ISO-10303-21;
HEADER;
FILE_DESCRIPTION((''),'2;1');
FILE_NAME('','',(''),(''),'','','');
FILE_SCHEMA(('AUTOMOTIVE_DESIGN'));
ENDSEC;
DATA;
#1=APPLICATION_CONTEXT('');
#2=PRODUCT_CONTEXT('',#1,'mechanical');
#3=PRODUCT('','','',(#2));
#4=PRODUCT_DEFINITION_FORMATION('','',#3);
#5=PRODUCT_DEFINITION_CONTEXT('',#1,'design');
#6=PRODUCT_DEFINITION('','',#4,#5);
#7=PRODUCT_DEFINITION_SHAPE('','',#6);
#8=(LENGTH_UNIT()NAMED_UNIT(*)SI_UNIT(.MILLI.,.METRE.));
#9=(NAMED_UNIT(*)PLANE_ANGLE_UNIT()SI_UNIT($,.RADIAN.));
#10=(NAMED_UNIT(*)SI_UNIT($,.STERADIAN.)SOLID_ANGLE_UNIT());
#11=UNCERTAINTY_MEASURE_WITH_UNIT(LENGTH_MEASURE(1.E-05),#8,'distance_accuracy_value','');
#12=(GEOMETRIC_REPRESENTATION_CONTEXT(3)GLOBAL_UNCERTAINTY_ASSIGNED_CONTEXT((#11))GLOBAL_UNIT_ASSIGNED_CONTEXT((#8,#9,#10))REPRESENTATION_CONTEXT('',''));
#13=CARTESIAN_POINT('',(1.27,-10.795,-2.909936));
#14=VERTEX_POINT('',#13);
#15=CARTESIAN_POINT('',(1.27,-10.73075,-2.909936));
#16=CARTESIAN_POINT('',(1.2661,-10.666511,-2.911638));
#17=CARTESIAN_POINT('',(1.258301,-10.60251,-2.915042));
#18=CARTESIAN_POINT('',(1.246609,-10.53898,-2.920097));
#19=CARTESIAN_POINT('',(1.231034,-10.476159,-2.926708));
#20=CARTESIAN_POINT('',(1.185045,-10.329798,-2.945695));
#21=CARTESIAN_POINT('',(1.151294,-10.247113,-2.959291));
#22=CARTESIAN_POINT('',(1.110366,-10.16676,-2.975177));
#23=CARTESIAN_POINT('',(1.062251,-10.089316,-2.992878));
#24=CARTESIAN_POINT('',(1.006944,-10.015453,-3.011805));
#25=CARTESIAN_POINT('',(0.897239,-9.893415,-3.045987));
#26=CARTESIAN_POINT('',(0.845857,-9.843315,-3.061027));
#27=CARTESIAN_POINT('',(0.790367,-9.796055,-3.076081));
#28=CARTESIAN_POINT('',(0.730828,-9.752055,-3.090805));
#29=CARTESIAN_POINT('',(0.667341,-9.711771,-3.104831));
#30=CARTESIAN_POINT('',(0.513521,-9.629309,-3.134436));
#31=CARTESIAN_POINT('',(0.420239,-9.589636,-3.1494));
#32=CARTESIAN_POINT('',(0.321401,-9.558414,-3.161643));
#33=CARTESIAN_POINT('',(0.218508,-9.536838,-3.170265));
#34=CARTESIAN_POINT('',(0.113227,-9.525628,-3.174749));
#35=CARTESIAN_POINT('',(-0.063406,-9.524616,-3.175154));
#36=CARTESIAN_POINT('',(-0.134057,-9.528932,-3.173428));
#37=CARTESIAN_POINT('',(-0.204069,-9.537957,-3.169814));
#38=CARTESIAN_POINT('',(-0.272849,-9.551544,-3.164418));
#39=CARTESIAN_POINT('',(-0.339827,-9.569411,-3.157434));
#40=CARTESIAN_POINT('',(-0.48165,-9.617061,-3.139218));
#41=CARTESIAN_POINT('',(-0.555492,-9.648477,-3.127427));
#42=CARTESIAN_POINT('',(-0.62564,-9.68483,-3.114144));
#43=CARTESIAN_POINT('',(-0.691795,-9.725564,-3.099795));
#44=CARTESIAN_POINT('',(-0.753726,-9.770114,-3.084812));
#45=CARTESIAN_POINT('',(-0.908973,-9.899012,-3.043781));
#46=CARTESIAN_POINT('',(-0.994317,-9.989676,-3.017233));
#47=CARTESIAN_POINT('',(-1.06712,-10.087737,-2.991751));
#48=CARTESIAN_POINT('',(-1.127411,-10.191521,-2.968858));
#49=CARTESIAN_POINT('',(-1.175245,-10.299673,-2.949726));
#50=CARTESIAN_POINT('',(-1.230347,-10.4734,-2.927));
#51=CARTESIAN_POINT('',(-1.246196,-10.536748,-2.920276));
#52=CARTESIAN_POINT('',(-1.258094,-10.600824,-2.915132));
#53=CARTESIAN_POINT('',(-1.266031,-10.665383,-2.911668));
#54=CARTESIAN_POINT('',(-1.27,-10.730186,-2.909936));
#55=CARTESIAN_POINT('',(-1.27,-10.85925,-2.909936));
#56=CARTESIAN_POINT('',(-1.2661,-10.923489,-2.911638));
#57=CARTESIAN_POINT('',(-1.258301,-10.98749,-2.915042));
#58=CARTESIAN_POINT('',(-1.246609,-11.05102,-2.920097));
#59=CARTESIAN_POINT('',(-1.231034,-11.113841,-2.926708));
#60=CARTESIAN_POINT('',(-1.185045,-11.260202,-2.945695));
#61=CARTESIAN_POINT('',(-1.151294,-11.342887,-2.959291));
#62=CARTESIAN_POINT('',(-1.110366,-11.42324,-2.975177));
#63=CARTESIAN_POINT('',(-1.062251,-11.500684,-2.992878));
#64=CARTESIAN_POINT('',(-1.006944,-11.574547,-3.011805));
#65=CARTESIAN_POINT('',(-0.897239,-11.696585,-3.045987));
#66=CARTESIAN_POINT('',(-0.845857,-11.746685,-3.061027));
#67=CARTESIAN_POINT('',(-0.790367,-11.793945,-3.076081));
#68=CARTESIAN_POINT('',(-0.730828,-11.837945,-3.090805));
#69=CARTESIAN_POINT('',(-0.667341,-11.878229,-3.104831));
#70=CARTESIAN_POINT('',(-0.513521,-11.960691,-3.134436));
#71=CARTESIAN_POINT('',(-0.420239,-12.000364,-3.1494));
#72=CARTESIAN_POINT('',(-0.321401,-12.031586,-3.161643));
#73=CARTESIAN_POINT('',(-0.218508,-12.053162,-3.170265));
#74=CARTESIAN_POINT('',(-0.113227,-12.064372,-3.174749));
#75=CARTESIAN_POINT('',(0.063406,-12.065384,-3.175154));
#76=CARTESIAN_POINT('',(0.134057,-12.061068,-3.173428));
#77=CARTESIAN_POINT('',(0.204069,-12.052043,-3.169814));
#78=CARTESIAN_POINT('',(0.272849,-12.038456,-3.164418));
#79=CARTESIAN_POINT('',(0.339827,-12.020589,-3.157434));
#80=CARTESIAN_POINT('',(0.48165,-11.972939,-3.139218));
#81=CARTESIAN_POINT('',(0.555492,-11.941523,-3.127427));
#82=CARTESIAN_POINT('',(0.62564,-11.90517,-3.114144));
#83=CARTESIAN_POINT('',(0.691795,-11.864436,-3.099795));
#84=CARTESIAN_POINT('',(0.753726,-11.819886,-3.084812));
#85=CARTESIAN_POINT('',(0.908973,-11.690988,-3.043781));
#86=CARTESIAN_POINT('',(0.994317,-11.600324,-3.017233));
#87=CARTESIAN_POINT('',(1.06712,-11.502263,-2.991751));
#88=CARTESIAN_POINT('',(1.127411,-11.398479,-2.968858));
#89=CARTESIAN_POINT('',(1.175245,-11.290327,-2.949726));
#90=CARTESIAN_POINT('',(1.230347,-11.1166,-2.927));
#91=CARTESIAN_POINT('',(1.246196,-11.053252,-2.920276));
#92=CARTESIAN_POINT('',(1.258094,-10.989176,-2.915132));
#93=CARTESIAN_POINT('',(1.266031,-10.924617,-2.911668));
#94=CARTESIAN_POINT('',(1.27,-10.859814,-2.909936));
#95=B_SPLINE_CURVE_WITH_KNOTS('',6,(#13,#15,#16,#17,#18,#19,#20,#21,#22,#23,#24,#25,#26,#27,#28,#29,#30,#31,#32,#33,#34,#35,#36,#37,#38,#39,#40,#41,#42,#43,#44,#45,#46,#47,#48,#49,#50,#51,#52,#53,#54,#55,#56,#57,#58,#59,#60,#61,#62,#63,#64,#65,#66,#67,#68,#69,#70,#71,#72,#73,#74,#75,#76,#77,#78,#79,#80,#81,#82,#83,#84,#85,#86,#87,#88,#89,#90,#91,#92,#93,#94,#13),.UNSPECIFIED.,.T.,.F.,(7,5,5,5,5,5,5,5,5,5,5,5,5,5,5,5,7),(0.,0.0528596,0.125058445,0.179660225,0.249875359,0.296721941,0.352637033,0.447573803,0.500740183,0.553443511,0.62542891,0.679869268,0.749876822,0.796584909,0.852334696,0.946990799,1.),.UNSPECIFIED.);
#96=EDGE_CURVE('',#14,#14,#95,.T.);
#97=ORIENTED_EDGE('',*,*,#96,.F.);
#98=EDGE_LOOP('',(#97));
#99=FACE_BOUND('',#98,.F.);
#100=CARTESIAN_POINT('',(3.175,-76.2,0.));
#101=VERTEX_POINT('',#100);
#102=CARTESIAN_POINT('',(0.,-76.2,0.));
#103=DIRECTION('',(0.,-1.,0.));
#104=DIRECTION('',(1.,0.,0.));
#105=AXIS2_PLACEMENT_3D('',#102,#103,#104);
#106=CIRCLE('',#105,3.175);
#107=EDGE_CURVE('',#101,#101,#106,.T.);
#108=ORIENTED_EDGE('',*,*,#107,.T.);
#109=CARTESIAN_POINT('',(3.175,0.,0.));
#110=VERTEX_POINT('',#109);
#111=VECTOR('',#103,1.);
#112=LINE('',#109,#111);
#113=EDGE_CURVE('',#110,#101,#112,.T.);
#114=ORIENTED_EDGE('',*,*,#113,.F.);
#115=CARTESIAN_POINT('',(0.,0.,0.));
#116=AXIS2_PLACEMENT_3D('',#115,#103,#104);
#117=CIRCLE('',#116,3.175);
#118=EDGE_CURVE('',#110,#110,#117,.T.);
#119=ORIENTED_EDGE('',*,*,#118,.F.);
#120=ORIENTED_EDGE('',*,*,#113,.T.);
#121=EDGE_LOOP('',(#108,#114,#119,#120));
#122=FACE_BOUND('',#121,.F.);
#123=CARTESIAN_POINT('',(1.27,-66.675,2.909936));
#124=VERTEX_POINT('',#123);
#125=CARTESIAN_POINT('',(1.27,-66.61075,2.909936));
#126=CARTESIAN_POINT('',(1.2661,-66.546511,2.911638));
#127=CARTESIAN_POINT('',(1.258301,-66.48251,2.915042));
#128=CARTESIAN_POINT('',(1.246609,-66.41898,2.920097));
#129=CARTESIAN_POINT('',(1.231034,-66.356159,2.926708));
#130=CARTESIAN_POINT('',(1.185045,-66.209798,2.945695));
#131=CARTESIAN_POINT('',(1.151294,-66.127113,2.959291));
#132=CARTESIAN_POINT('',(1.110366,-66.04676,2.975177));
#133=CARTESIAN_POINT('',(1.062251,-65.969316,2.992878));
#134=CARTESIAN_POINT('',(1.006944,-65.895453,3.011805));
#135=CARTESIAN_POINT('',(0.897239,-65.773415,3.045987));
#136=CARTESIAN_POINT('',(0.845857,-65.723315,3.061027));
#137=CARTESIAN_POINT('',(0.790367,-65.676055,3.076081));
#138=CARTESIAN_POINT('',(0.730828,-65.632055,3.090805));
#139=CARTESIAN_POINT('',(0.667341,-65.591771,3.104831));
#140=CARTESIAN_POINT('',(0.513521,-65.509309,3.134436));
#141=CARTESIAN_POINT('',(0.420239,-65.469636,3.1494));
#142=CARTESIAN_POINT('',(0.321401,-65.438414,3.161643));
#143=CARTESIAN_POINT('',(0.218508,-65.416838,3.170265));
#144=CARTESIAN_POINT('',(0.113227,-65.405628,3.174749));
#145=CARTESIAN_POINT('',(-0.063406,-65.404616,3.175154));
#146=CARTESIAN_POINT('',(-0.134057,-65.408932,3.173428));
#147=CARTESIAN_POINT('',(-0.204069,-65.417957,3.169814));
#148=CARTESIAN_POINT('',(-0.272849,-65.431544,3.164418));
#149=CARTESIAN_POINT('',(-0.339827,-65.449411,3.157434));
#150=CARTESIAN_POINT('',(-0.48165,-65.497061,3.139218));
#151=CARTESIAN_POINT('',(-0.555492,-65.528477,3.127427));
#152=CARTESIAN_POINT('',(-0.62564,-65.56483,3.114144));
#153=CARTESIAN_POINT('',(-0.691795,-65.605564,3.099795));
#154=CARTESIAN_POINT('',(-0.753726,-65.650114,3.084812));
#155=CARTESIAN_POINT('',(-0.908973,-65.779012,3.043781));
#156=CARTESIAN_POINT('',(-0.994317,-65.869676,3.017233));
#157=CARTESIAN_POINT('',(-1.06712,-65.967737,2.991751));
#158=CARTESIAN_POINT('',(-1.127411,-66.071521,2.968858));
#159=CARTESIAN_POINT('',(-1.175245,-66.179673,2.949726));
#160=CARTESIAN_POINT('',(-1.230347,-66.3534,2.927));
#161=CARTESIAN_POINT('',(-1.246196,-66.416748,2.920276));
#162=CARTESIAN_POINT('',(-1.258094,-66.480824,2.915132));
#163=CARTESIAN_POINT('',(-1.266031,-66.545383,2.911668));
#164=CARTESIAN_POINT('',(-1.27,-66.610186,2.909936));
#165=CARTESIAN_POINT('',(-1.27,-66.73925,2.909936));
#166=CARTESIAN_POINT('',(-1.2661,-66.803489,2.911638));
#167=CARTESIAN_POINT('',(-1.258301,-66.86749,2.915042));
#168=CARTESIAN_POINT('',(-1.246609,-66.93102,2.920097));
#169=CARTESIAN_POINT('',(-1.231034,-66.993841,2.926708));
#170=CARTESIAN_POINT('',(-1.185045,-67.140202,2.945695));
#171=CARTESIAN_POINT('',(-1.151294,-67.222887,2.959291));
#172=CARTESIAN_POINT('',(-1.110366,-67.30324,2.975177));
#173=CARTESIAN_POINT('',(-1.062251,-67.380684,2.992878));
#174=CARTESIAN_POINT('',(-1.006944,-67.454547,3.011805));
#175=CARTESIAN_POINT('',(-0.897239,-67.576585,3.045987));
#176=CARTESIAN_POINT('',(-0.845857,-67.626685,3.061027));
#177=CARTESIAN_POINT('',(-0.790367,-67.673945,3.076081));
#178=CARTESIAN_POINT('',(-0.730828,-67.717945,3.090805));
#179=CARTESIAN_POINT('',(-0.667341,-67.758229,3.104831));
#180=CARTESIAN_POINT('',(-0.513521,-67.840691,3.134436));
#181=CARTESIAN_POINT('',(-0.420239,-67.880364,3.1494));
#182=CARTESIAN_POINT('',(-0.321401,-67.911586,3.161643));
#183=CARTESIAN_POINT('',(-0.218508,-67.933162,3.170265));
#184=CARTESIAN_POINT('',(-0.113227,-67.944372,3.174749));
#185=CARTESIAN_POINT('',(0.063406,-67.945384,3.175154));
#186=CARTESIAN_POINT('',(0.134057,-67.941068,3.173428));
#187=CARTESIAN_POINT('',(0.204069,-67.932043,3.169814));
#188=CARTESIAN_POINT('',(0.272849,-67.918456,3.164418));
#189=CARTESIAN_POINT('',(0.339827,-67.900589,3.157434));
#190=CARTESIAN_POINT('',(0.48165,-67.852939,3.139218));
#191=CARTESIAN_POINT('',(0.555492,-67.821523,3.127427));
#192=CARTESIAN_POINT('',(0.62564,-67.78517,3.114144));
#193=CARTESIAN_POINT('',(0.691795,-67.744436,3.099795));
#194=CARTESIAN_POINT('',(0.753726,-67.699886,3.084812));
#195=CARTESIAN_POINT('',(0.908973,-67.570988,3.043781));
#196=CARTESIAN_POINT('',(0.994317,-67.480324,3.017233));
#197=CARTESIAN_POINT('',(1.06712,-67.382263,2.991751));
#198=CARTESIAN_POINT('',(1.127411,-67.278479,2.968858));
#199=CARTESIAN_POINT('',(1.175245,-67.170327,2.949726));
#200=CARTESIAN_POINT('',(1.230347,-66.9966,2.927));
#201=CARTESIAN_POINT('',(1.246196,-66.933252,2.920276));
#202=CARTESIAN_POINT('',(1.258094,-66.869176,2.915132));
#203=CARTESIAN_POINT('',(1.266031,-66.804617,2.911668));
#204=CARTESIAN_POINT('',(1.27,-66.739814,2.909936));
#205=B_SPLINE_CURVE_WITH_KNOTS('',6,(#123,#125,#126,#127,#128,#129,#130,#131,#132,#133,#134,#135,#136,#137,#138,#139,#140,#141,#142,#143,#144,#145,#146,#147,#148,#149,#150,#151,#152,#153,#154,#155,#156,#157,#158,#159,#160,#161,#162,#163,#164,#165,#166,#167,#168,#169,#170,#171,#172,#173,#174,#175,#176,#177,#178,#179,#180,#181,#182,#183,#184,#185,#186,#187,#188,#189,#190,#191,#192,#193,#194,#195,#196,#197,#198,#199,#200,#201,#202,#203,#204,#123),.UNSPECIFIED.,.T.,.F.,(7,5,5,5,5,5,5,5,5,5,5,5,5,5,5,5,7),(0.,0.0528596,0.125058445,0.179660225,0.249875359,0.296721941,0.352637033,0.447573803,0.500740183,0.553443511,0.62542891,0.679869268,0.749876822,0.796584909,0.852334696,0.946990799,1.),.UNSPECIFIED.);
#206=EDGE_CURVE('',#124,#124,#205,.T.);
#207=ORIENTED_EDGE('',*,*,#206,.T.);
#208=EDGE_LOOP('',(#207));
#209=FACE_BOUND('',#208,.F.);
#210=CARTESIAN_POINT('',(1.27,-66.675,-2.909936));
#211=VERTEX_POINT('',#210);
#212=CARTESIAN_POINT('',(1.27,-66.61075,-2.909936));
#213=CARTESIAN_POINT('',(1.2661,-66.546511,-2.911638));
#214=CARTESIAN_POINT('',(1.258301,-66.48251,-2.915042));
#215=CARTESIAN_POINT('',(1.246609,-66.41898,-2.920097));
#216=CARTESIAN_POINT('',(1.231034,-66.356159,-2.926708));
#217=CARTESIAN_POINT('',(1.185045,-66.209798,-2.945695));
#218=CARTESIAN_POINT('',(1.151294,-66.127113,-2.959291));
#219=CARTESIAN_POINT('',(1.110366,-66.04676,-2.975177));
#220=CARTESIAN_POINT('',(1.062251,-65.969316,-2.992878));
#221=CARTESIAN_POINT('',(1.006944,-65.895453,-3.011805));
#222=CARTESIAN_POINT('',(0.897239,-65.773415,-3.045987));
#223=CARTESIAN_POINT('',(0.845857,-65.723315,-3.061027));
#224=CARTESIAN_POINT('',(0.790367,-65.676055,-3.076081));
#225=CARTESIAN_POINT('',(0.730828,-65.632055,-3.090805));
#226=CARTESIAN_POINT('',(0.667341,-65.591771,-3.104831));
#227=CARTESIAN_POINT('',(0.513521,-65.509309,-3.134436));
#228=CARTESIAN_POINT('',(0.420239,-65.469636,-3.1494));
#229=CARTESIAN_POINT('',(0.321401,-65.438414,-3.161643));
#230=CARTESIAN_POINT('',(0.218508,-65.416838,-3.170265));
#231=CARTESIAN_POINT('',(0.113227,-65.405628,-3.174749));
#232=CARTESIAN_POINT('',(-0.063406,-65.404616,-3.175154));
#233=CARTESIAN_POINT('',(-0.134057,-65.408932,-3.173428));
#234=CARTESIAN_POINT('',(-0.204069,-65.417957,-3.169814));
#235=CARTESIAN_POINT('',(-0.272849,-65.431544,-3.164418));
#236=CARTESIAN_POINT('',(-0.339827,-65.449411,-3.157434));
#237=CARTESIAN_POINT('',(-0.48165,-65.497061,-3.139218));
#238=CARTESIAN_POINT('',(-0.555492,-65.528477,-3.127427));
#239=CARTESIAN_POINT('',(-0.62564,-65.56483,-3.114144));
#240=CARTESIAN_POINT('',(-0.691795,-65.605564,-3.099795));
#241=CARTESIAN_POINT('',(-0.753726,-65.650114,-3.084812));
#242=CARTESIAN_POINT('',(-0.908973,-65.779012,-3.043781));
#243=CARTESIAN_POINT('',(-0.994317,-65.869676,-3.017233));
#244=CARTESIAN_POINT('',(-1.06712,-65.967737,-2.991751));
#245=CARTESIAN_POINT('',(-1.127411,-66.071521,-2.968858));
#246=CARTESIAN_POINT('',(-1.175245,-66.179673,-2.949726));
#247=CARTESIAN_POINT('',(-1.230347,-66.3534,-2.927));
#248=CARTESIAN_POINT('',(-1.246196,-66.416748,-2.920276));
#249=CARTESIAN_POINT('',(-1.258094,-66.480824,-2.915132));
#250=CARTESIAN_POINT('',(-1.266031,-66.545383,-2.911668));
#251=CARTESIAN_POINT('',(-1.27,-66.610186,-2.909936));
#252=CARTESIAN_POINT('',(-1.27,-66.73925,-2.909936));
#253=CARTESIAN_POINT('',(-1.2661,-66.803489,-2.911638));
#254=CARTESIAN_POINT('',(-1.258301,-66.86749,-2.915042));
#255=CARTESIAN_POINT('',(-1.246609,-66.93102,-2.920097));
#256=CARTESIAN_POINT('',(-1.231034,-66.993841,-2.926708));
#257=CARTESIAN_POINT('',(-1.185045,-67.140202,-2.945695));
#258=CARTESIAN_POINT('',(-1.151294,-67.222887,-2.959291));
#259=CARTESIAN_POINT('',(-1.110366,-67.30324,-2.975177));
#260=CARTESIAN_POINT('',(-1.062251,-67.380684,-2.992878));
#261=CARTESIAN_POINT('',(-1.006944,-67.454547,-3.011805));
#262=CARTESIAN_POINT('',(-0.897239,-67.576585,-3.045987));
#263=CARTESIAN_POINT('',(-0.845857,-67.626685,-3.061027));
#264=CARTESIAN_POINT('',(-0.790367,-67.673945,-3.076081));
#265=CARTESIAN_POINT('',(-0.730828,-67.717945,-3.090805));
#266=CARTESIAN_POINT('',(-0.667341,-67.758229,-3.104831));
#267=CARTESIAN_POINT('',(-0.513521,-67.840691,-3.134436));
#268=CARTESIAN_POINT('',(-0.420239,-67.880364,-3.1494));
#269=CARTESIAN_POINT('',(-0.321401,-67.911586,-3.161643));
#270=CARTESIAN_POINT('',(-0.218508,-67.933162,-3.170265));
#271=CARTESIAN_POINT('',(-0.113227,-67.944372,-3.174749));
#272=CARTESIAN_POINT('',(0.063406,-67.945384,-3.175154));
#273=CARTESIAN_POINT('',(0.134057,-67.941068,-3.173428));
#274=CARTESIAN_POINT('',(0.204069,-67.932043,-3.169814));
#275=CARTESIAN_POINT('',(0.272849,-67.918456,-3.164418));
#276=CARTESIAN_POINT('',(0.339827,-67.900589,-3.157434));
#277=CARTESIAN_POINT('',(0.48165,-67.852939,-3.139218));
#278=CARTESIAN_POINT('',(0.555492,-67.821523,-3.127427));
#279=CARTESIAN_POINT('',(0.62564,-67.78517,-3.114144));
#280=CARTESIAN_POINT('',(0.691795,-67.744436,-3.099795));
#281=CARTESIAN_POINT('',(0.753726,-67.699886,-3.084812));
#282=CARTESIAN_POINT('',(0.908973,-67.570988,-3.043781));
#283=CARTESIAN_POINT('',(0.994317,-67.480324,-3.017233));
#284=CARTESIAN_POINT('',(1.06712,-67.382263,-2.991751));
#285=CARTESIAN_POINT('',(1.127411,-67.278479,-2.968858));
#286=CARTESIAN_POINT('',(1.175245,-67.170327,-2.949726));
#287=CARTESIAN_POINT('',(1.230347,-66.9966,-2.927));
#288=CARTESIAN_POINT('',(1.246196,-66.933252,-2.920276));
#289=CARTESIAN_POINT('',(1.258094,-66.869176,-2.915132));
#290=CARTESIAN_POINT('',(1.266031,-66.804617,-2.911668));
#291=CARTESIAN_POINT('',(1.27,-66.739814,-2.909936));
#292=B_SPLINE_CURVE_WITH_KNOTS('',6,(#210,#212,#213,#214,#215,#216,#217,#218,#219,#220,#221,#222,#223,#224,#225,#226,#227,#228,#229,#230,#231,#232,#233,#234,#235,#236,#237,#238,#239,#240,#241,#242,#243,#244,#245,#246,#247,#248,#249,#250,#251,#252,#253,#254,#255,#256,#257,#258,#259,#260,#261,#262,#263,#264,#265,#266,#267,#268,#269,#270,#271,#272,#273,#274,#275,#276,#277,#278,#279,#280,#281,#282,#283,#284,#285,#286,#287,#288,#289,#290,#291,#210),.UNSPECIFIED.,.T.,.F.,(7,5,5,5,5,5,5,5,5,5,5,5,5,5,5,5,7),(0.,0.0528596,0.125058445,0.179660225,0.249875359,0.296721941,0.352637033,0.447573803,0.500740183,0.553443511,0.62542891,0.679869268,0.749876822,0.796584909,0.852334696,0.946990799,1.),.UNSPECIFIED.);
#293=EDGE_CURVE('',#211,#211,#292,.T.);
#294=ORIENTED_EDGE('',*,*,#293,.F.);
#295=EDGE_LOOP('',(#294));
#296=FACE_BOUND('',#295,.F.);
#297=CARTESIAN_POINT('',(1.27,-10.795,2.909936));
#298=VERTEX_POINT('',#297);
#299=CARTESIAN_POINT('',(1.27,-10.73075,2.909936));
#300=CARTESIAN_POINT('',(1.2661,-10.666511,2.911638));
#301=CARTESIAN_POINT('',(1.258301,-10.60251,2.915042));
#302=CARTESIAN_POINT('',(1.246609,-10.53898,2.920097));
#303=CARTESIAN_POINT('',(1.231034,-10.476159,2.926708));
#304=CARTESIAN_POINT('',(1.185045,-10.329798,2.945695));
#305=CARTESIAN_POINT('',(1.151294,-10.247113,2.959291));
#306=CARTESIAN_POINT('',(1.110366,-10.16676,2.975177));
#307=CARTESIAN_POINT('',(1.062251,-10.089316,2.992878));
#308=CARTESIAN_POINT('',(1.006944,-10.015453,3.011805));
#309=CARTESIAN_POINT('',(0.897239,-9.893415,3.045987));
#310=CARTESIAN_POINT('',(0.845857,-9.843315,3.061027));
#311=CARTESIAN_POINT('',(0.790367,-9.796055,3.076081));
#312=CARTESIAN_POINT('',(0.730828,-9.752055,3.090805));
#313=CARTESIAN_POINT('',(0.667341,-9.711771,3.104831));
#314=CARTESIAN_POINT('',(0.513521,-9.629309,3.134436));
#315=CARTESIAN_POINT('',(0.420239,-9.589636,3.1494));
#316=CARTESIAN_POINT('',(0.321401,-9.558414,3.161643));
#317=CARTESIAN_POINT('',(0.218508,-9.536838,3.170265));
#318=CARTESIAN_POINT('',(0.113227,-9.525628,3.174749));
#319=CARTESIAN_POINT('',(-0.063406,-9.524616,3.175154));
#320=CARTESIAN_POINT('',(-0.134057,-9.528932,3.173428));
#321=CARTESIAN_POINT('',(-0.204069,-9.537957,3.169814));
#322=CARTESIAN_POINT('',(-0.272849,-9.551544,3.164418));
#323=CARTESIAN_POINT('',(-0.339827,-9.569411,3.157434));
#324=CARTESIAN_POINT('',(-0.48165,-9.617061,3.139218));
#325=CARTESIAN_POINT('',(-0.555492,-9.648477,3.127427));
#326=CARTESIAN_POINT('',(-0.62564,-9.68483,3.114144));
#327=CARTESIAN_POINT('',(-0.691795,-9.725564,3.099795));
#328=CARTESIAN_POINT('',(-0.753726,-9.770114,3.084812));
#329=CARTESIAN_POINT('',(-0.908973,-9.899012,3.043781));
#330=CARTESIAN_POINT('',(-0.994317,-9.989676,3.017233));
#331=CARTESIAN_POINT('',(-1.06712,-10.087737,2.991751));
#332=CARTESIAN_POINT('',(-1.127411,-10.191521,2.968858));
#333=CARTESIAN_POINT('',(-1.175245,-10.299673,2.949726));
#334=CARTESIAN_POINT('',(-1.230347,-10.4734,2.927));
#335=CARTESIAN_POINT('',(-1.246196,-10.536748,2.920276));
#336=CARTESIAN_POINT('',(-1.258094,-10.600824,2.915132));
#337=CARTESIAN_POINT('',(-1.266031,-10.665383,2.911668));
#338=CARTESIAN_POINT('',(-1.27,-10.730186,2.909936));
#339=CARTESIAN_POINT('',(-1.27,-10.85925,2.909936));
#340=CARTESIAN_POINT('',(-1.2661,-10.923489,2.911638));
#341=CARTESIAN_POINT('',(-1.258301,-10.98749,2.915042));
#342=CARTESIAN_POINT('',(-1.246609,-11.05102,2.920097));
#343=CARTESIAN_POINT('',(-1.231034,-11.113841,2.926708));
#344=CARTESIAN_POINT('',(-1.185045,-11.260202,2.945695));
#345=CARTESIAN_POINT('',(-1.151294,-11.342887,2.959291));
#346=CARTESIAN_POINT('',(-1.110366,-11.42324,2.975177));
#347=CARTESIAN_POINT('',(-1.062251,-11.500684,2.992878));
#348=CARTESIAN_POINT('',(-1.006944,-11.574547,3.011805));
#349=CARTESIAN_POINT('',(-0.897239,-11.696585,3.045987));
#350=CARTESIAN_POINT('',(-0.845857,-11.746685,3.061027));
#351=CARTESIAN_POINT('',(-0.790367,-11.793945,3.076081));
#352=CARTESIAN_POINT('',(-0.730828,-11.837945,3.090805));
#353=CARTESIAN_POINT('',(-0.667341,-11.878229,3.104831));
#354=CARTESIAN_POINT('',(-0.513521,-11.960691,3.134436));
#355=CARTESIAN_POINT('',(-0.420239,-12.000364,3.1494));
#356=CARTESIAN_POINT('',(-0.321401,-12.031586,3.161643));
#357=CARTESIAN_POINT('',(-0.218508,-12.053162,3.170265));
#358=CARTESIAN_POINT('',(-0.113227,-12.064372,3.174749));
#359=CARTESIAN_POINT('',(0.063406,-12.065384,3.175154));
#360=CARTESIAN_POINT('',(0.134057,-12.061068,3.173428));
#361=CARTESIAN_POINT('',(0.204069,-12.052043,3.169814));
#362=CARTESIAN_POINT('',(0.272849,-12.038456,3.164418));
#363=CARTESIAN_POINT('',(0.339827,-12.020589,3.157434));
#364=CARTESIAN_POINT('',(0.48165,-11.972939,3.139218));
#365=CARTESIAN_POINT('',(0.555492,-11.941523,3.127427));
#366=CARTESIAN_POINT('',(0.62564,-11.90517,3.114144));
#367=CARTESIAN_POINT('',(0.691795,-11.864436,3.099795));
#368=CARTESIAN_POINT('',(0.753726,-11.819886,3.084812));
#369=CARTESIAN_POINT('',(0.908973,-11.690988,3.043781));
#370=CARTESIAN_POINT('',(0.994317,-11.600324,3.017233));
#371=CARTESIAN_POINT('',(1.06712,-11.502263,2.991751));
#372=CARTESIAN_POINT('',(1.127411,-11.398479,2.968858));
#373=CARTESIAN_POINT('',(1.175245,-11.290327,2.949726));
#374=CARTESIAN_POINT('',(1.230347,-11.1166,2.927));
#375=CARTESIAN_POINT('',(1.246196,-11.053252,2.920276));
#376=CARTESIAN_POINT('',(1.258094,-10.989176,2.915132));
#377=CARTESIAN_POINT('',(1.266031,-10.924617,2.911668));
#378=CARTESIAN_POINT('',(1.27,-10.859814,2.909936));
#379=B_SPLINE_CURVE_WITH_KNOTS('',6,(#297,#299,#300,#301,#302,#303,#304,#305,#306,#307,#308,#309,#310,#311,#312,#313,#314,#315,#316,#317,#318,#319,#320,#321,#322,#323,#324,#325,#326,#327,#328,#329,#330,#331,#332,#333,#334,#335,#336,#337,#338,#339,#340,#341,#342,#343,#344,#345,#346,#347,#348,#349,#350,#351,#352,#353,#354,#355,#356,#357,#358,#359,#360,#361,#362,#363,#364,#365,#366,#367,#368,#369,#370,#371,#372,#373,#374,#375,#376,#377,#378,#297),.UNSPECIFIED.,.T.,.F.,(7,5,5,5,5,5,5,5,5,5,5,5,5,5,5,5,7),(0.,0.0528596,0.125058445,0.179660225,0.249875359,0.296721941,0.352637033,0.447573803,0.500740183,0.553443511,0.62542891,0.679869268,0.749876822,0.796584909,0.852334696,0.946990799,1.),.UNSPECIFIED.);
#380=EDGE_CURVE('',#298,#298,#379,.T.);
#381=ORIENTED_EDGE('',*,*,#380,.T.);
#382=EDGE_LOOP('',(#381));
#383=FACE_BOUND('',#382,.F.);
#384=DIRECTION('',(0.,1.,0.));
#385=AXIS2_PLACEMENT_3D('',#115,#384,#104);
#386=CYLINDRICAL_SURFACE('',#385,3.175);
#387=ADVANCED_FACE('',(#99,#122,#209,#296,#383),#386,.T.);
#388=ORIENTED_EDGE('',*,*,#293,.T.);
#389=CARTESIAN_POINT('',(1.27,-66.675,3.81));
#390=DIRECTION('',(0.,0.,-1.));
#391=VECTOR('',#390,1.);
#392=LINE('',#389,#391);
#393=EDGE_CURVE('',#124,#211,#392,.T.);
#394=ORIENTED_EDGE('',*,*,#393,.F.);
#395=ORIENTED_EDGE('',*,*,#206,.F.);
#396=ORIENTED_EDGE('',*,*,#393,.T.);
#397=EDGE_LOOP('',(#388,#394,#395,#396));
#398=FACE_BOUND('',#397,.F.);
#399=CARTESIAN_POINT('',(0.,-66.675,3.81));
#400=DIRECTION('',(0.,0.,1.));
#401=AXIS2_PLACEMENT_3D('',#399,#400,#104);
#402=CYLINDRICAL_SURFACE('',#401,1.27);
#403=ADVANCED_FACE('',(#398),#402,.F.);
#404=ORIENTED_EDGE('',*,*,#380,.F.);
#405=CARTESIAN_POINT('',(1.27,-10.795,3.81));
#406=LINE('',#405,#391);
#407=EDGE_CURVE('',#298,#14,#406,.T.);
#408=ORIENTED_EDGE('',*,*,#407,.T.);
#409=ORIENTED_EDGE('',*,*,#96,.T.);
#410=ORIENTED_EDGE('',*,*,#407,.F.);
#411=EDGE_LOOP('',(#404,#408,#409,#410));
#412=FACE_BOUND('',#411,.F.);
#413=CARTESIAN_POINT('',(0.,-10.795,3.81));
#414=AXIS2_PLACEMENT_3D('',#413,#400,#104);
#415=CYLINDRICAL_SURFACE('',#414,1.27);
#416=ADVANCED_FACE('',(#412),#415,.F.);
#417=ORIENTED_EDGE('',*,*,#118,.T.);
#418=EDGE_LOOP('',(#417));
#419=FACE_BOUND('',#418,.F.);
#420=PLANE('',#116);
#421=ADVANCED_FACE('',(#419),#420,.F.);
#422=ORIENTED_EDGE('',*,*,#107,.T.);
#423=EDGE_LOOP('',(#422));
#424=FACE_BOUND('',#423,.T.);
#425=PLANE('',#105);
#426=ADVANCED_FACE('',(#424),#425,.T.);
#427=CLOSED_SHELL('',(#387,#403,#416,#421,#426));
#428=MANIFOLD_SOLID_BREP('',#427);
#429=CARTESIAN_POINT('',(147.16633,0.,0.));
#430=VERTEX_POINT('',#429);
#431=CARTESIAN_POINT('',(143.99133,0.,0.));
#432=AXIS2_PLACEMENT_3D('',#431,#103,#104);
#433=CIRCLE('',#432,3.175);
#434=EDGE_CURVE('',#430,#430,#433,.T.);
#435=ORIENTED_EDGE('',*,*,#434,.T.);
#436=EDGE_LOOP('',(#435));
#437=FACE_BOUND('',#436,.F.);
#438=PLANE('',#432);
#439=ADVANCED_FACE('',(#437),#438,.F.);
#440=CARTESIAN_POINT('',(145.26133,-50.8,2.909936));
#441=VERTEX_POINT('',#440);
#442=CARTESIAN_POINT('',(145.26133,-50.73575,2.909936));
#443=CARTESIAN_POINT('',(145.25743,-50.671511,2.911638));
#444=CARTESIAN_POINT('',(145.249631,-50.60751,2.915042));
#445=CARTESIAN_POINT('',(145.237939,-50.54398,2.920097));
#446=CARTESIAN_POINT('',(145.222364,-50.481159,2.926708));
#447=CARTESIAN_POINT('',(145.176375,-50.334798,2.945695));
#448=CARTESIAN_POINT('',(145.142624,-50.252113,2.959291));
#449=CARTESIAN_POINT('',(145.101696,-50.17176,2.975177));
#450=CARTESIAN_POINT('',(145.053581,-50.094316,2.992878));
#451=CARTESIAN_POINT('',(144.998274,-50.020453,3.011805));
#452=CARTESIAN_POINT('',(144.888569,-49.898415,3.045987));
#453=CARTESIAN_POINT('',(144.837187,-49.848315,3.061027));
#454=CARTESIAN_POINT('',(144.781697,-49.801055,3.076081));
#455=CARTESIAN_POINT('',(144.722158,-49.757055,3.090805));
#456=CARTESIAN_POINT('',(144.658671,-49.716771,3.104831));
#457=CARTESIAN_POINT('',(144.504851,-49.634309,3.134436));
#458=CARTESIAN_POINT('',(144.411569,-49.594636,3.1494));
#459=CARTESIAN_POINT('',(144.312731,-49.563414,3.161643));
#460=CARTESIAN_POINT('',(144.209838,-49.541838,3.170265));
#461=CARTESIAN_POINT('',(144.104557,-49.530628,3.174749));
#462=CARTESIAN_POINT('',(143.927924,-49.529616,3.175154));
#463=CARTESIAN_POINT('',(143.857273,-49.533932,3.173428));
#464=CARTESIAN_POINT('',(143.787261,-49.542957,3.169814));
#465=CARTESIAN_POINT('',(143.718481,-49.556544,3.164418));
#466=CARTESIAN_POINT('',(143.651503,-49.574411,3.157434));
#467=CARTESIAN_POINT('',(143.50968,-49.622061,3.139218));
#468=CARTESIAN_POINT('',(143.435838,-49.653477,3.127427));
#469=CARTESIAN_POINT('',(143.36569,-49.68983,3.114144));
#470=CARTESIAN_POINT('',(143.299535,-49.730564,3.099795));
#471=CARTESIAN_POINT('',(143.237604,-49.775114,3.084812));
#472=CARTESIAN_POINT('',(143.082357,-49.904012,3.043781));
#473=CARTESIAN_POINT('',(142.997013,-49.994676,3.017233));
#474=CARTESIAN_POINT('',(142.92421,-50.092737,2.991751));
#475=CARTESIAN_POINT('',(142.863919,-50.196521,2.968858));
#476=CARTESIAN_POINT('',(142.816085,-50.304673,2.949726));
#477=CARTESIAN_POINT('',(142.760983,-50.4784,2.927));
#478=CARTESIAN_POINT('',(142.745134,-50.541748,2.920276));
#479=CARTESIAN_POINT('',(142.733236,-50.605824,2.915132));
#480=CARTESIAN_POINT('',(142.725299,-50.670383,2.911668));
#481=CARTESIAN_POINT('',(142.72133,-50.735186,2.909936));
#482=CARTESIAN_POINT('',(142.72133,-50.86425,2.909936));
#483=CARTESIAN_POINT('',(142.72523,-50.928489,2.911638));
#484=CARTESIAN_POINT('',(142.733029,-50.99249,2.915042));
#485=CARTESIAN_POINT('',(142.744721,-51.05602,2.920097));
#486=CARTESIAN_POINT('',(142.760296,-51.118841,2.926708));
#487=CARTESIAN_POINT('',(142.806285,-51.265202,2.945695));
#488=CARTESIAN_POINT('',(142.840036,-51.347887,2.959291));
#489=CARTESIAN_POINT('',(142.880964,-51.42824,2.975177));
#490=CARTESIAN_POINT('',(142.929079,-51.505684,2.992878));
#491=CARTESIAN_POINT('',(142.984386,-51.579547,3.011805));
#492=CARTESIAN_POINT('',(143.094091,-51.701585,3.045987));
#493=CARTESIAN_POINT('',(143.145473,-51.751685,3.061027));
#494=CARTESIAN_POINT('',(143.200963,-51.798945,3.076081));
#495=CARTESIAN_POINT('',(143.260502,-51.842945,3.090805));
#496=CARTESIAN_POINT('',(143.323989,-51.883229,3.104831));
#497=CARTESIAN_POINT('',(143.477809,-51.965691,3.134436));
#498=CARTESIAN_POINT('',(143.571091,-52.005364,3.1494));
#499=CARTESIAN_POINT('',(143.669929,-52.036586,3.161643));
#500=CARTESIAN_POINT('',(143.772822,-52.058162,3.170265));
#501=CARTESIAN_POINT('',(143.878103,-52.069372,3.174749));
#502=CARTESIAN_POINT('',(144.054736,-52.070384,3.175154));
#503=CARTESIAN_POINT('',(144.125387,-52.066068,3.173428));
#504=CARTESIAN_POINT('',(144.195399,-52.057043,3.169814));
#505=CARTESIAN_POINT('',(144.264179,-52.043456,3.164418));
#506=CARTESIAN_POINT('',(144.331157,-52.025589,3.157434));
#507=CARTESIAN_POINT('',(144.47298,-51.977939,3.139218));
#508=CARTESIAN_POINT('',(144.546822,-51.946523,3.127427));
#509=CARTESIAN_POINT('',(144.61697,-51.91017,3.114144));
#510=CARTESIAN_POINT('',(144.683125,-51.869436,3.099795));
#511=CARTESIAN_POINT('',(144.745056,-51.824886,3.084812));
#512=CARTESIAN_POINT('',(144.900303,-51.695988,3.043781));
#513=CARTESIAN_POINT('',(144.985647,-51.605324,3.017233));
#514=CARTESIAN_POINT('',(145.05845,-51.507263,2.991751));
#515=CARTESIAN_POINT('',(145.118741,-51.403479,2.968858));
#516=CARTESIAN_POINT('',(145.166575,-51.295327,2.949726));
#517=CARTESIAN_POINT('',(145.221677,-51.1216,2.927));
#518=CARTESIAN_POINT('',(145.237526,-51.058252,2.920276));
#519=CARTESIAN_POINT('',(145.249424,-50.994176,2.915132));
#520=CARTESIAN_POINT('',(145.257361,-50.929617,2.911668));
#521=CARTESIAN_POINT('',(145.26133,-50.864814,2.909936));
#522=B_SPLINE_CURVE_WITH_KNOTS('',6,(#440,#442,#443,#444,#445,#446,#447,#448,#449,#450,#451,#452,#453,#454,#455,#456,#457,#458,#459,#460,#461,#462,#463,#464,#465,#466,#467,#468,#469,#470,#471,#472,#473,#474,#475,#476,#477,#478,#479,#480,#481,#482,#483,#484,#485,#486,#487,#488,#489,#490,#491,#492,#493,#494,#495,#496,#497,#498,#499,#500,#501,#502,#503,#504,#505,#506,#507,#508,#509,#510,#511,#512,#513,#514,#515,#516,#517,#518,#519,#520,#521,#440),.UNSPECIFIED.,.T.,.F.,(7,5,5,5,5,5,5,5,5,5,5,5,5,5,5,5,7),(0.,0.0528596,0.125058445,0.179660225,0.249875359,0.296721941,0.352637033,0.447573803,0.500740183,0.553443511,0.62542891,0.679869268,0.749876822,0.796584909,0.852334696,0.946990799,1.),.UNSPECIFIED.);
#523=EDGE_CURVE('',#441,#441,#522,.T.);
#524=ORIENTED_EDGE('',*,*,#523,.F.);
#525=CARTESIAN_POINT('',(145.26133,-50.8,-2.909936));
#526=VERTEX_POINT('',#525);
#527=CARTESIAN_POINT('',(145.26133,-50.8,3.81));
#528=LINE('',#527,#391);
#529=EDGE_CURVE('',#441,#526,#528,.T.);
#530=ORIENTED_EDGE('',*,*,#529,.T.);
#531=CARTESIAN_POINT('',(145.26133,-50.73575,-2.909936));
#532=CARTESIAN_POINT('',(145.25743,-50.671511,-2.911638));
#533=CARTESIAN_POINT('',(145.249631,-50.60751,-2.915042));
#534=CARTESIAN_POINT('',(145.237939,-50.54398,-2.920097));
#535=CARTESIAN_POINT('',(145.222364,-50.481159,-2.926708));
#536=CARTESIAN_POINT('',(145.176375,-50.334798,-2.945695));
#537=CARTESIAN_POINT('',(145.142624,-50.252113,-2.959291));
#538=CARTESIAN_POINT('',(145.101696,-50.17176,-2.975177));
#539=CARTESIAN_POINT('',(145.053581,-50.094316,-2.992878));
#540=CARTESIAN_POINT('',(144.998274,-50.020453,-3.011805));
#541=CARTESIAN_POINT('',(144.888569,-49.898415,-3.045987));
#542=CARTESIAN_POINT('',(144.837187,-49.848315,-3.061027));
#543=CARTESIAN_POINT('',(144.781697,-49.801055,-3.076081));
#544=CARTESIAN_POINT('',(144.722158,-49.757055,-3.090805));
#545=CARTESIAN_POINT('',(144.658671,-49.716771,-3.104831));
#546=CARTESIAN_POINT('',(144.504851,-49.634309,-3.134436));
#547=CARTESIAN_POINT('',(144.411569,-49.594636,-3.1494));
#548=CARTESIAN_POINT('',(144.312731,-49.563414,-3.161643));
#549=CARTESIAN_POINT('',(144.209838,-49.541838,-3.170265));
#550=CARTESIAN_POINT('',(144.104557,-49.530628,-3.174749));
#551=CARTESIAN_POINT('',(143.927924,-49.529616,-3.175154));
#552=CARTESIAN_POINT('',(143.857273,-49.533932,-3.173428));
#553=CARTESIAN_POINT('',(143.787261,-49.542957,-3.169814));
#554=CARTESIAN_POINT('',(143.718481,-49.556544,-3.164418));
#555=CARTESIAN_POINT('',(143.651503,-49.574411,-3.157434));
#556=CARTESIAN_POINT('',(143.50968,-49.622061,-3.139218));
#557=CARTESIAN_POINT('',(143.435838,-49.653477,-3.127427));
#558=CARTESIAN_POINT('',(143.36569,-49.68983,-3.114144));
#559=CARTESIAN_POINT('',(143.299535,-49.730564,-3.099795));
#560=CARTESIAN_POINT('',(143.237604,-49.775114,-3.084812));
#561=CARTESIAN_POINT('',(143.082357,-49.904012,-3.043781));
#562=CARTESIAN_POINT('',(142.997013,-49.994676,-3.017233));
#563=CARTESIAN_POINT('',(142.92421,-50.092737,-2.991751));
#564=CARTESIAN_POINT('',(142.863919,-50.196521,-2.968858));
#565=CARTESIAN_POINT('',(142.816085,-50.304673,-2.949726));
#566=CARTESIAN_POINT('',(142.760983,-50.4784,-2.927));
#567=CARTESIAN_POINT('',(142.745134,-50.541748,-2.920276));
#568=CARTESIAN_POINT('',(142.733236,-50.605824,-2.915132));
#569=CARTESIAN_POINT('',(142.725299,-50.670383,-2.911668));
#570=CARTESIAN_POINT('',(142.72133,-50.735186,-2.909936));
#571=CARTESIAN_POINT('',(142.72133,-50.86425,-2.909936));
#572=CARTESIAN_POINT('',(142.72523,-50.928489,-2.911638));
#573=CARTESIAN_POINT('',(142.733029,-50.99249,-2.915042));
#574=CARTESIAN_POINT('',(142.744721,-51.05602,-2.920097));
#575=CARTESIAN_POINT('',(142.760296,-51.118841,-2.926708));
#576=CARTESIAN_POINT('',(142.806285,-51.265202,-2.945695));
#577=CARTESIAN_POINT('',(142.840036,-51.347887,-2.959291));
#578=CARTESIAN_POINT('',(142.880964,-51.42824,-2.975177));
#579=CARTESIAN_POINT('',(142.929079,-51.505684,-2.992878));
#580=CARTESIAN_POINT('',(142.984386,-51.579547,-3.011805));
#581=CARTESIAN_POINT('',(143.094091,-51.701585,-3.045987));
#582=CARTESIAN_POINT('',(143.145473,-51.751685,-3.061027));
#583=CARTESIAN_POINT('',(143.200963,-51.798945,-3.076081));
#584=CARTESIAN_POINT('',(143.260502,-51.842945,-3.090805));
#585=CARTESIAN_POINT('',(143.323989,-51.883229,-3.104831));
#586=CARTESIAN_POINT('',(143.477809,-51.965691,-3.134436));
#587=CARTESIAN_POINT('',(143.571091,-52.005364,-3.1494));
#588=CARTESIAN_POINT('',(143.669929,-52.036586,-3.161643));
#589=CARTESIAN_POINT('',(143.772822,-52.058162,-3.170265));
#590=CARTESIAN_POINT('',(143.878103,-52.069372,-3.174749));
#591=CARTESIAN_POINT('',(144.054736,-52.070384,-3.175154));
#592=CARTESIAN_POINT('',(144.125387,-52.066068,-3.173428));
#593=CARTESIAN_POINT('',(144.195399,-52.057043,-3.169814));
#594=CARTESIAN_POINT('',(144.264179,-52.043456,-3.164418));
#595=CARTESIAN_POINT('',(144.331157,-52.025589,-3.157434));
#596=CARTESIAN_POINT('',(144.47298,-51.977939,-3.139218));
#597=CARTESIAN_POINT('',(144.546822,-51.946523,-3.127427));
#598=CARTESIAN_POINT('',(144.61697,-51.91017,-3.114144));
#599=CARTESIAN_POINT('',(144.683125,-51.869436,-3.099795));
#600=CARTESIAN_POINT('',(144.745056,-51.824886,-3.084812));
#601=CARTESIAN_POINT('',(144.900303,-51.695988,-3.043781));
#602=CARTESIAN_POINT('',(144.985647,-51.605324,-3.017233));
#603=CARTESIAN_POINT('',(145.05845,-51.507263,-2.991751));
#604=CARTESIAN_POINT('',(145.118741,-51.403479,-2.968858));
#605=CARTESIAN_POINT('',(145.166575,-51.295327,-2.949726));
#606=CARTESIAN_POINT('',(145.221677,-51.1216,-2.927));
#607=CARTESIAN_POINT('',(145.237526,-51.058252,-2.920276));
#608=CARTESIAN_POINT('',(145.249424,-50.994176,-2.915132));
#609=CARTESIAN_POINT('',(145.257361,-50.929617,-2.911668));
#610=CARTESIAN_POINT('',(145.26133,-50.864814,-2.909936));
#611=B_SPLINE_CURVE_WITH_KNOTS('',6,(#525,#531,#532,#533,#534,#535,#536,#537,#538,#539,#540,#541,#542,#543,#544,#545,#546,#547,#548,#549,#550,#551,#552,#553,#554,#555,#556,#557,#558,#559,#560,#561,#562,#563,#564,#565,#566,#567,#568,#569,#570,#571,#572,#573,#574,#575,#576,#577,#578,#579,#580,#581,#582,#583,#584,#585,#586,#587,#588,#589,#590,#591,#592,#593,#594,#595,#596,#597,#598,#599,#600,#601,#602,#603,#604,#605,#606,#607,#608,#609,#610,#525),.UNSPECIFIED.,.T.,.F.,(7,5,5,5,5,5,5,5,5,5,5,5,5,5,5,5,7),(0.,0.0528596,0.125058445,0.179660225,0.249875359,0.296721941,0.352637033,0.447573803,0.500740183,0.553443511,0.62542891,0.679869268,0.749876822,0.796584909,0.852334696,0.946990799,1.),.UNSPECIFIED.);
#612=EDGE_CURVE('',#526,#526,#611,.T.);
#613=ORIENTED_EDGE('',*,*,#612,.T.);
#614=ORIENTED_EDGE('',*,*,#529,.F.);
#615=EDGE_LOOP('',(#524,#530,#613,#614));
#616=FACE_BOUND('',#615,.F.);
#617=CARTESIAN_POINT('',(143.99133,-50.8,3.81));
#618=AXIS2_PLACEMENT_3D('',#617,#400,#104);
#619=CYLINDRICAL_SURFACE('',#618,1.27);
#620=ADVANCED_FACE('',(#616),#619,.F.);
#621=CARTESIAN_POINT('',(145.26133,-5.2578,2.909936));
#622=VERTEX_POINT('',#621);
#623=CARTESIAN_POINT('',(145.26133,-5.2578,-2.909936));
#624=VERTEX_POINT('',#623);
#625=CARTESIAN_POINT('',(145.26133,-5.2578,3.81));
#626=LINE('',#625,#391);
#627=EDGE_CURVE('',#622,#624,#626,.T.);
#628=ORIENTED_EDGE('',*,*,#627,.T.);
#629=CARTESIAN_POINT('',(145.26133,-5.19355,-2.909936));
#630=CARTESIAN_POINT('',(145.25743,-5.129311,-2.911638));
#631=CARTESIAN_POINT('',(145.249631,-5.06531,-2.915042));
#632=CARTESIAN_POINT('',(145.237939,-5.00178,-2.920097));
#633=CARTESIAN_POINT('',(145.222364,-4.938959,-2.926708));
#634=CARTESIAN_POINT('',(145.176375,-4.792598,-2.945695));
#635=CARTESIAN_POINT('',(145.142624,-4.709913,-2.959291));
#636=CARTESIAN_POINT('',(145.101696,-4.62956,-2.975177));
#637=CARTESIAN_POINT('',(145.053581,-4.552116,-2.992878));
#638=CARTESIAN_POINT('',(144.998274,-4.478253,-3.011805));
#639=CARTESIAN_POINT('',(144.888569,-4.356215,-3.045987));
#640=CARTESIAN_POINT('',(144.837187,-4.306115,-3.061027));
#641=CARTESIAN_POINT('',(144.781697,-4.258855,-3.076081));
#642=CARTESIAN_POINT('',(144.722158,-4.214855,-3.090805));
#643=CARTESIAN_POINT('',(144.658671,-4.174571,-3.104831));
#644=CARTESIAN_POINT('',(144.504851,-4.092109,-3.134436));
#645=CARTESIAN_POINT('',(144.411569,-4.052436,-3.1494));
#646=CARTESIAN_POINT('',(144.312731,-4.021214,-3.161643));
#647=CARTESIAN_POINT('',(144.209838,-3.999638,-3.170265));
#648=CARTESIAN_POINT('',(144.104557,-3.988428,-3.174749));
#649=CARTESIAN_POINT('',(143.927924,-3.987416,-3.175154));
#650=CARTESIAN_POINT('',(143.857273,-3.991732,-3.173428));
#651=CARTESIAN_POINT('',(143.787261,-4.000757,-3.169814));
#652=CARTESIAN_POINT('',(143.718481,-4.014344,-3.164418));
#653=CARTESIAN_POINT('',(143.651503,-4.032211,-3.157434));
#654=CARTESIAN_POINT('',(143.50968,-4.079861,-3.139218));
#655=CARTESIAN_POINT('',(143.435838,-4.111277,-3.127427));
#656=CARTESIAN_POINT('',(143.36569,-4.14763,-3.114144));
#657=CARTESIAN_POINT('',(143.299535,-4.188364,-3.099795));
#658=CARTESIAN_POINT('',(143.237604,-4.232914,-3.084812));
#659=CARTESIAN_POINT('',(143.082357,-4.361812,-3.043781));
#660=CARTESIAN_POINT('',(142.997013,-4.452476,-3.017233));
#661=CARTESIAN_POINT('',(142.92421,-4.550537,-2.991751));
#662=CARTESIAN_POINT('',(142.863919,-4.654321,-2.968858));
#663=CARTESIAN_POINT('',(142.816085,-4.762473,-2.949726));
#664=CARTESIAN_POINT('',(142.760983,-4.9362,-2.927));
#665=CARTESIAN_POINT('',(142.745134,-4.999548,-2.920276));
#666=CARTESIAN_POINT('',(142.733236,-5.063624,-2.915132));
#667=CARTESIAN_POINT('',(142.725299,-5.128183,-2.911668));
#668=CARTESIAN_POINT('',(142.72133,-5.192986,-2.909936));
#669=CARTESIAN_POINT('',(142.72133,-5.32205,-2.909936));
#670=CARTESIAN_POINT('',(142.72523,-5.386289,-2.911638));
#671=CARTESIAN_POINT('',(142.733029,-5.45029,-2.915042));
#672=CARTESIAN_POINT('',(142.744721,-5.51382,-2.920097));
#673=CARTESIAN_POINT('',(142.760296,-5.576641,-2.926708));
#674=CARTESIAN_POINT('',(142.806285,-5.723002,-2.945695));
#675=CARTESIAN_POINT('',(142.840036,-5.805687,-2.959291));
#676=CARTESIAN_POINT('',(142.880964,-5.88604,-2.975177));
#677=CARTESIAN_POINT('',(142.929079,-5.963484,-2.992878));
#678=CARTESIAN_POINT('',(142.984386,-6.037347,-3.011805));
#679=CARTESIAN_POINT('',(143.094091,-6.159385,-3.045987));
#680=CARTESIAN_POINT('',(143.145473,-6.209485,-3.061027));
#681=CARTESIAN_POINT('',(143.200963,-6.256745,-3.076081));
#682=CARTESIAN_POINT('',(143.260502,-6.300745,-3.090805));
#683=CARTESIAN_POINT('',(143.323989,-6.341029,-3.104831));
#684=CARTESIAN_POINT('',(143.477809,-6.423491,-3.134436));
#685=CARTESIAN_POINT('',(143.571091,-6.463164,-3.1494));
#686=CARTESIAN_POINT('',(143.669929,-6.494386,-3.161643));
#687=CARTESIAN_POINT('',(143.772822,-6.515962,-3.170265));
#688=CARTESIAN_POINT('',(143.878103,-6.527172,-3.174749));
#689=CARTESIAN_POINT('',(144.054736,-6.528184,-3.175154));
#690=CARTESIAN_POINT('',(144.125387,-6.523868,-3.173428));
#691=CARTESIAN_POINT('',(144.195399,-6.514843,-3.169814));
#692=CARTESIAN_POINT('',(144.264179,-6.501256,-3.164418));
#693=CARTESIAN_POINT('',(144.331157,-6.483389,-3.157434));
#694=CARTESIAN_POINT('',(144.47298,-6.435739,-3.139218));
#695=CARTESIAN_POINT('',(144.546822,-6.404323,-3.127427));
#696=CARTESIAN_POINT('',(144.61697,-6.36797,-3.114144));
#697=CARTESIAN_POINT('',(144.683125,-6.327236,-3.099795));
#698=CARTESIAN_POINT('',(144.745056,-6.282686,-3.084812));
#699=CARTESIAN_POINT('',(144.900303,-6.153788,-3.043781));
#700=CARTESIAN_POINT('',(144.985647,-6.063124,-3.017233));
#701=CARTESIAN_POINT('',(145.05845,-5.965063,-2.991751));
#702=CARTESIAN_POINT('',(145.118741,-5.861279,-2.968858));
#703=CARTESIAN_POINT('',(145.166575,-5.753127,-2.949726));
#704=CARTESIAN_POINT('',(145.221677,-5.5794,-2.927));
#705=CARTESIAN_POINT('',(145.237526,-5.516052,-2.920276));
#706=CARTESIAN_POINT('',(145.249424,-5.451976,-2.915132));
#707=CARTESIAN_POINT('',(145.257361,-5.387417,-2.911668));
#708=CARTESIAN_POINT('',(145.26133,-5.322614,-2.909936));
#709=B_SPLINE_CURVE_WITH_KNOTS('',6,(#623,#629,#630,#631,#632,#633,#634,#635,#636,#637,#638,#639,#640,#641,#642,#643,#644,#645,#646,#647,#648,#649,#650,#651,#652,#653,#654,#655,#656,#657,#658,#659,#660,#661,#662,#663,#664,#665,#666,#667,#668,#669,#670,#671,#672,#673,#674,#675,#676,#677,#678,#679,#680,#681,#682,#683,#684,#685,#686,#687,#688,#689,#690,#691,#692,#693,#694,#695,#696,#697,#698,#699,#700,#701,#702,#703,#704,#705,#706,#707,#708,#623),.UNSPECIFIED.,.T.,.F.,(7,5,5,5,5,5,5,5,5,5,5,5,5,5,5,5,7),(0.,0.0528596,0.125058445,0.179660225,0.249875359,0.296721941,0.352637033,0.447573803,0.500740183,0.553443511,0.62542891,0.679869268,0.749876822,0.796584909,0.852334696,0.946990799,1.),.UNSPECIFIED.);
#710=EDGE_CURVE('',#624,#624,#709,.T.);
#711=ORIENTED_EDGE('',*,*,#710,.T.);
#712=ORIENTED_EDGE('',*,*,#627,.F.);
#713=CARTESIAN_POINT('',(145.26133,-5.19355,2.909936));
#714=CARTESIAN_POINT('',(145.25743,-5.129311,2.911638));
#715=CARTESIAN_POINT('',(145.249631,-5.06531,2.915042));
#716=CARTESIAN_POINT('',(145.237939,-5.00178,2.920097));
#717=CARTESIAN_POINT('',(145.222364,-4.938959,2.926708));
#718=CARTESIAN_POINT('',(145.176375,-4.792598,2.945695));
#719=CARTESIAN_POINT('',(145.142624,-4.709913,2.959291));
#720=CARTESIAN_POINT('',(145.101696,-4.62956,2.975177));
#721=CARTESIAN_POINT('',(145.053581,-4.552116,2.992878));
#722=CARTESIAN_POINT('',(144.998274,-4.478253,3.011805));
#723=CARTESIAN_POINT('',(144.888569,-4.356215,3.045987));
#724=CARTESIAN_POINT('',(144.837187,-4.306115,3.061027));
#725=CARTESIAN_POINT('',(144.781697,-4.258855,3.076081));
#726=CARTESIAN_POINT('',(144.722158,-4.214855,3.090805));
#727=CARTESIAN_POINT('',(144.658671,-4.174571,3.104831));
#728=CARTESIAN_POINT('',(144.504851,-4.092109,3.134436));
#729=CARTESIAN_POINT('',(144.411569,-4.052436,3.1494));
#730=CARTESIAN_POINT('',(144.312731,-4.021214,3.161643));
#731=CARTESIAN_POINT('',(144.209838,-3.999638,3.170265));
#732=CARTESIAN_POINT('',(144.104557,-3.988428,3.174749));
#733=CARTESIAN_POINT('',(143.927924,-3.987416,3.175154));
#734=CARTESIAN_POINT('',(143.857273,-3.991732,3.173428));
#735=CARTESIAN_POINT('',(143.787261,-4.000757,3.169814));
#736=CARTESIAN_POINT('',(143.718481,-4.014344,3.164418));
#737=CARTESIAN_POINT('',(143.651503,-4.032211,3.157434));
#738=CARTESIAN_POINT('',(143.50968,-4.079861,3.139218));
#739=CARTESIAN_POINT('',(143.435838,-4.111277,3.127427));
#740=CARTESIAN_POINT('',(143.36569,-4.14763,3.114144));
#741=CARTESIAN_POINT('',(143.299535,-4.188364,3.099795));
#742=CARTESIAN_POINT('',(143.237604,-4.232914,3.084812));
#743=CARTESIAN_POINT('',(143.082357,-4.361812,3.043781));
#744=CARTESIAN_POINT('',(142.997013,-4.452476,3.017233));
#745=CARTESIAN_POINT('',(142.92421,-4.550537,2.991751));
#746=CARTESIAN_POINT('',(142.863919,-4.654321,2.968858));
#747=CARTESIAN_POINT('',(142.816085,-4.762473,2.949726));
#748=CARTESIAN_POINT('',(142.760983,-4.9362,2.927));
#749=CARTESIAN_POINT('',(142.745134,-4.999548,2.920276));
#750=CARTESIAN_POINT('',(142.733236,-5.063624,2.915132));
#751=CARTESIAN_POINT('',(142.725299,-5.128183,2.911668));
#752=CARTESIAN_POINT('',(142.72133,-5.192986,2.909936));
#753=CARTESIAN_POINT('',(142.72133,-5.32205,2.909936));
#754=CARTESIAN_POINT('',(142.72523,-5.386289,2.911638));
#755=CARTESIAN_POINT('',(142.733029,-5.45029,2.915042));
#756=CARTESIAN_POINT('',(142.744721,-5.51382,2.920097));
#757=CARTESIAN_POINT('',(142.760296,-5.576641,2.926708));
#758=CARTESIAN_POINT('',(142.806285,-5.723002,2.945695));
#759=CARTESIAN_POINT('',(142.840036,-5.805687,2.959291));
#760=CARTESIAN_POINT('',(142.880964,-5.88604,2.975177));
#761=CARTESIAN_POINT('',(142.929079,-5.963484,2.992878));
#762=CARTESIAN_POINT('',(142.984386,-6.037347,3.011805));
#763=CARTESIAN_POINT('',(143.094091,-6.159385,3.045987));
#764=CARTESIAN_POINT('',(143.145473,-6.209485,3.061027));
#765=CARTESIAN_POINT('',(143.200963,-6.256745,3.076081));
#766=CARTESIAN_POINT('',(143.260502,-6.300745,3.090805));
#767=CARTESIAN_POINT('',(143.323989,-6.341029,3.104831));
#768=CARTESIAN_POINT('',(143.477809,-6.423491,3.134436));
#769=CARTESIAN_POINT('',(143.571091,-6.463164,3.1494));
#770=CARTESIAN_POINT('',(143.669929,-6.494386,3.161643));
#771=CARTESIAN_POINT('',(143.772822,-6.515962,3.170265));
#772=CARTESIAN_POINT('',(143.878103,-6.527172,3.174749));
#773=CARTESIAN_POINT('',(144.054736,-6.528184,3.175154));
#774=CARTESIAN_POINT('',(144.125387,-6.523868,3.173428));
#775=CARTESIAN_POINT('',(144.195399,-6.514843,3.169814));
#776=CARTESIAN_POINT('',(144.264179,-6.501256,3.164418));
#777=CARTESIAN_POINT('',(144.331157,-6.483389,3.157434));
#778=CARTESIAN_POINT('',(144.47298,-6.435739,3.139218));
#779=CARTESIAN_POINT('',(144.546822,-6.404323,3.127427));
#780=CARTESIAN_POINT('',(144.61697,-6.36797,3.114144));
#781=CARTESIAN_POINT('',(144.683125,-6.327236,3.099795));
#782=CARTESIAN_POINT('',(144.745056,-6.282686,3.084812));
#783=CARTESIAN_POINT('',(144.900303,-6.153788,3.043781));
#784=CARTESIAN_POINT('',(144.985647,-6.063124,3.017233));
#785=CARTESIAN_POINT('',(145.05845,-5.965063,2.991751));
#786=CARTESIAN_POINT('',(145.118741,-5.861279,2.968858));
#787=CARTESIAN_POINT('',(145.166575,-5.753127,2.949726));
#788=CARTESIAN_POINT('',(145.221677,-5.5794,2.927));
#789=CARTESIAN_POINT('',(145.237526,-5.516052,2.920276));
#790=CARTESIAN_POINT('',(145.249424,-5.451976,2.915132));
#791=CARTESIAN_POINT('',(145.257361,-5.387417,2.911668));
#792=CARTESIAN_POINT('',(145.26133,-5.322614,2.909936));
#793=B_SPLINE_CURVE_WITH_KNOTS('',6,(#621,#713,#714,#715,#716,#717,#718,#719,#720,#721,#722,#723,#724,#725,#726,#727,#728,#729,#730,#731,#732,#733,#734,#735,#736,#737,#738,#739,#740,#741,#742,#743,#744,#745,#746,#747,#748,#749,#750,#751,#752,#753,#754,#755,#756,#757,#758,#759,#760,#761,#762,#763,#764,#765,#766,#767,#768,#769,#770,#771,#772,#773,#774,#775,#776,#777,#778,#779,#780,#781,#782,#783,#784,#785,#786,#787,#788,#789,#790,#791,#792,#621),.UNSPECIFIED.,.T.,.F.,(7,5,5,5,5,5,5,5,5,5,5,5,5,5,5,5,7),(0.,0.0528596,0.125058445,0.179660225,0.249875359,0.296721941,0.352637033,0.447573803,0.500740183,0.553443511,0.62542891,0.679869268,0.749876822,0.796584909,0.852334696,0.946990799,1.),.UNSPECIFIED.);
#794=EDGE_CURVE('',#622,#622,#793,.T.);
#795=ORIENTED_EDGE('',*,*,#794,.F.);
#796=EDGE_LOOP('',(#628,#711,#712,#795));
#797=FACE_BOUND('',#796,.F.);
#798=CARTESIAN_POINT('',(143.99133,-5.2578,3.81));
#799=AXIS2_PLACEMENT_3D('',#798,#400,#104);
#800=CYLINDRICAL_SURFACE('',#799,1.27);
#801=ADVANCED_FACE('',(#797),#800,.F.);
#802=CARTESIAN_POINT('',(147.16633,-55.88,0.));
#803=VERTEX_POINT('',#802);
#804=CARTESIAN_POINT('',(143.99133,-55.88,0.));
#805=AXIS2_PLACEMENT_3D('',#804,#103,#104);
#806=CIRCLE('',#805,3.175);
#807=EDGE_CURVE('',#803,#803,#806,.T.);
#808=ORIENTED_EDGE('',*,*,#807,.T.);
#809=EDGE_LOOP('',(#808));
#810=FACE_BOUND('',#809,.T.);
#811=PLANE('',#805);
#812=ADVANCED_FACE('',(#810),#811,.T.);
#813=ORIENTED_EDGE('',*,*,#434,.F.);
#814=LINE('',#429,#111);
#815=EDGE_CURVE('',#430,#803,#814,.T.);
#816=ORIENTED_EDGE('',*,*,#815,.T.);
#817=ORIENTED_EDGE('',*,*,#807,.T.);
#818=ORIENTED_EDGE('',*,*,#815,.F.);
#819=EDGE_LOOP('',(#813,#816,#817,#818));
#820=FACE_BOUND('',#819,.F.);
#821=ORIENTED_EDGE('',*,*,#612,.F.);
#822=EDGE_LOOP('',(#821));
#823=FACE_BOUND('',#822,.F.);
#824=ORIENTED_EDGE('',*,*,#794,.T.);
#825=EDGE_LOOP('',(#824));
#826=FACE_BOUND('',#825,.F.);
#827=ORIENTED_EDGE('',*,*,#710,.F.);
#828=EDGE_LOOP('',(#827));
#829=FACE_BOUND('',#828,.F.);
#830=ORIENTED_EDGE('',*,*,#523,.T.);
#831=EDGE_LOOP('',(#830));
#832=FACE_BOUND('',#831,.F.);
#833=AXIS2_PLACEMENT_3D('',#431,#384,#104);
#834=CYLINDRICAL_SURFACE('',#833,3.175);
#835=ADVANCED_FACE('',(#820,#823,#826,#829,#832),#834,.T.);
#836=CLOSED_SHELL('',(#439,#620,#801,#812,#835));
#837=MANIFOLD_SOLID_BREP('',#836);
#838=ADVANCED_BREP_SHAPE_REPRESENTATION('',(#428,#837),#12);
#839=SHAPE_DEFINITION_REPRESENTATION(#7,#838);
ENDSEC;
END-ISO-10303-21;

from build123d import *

# Parameters (mm, degrees)
F0_R     = 3.175
F1_DEPTH = 76.2
F2_DEPTH = 55.88
F4_R     = 1.27
F5_DEPTH = 25.4


with BuildPart() as f1:
    # F0 (on Front) → F1 (new body)
    with BuildSketch(Plane.XZ):
        Circle(F0_R)
    extrude(amount=F1_DEPTH)


with BuildPart() as f2:
    # F0 (on Front) → F2 (new body)
    with BuildSketch(Plane.XZ):
        with Locations((143.99133, 0)):
            Circle(F0_R)
    extrude(amount=F2_DEPTH)


with BuildPart() as f5_tool:
    # F4 (on offset) → F5 (new body)
    with BuildSketch(Plane.XY.offset(3.81)):
        with Locations((0, -66.675)):
            Circle(F4_R)
        with Locations((0, -10.795)):
            Circle(F4_R)
        with Locations((143.99133, -50.8)):
            Circle(F4_R)
        with Locations((143.99133, -5.2578)):
            Circle(F4_R)
    extrude(amount=-F5_DEPTH)


with BuildPart() as f1_1:
    add(f1.part)

    # F5: cut by f5_tool
    add(f5_tool.part, mode=Mode.SUBTRACT)


with BuildPart() as f2_1:
    add(f2.part)

    # F5: cut by f5_tool
    add(f5_tool.part, mode=Mode.SUBTRACT)


solid = Compound([f1_1.part, f2_1.part])
